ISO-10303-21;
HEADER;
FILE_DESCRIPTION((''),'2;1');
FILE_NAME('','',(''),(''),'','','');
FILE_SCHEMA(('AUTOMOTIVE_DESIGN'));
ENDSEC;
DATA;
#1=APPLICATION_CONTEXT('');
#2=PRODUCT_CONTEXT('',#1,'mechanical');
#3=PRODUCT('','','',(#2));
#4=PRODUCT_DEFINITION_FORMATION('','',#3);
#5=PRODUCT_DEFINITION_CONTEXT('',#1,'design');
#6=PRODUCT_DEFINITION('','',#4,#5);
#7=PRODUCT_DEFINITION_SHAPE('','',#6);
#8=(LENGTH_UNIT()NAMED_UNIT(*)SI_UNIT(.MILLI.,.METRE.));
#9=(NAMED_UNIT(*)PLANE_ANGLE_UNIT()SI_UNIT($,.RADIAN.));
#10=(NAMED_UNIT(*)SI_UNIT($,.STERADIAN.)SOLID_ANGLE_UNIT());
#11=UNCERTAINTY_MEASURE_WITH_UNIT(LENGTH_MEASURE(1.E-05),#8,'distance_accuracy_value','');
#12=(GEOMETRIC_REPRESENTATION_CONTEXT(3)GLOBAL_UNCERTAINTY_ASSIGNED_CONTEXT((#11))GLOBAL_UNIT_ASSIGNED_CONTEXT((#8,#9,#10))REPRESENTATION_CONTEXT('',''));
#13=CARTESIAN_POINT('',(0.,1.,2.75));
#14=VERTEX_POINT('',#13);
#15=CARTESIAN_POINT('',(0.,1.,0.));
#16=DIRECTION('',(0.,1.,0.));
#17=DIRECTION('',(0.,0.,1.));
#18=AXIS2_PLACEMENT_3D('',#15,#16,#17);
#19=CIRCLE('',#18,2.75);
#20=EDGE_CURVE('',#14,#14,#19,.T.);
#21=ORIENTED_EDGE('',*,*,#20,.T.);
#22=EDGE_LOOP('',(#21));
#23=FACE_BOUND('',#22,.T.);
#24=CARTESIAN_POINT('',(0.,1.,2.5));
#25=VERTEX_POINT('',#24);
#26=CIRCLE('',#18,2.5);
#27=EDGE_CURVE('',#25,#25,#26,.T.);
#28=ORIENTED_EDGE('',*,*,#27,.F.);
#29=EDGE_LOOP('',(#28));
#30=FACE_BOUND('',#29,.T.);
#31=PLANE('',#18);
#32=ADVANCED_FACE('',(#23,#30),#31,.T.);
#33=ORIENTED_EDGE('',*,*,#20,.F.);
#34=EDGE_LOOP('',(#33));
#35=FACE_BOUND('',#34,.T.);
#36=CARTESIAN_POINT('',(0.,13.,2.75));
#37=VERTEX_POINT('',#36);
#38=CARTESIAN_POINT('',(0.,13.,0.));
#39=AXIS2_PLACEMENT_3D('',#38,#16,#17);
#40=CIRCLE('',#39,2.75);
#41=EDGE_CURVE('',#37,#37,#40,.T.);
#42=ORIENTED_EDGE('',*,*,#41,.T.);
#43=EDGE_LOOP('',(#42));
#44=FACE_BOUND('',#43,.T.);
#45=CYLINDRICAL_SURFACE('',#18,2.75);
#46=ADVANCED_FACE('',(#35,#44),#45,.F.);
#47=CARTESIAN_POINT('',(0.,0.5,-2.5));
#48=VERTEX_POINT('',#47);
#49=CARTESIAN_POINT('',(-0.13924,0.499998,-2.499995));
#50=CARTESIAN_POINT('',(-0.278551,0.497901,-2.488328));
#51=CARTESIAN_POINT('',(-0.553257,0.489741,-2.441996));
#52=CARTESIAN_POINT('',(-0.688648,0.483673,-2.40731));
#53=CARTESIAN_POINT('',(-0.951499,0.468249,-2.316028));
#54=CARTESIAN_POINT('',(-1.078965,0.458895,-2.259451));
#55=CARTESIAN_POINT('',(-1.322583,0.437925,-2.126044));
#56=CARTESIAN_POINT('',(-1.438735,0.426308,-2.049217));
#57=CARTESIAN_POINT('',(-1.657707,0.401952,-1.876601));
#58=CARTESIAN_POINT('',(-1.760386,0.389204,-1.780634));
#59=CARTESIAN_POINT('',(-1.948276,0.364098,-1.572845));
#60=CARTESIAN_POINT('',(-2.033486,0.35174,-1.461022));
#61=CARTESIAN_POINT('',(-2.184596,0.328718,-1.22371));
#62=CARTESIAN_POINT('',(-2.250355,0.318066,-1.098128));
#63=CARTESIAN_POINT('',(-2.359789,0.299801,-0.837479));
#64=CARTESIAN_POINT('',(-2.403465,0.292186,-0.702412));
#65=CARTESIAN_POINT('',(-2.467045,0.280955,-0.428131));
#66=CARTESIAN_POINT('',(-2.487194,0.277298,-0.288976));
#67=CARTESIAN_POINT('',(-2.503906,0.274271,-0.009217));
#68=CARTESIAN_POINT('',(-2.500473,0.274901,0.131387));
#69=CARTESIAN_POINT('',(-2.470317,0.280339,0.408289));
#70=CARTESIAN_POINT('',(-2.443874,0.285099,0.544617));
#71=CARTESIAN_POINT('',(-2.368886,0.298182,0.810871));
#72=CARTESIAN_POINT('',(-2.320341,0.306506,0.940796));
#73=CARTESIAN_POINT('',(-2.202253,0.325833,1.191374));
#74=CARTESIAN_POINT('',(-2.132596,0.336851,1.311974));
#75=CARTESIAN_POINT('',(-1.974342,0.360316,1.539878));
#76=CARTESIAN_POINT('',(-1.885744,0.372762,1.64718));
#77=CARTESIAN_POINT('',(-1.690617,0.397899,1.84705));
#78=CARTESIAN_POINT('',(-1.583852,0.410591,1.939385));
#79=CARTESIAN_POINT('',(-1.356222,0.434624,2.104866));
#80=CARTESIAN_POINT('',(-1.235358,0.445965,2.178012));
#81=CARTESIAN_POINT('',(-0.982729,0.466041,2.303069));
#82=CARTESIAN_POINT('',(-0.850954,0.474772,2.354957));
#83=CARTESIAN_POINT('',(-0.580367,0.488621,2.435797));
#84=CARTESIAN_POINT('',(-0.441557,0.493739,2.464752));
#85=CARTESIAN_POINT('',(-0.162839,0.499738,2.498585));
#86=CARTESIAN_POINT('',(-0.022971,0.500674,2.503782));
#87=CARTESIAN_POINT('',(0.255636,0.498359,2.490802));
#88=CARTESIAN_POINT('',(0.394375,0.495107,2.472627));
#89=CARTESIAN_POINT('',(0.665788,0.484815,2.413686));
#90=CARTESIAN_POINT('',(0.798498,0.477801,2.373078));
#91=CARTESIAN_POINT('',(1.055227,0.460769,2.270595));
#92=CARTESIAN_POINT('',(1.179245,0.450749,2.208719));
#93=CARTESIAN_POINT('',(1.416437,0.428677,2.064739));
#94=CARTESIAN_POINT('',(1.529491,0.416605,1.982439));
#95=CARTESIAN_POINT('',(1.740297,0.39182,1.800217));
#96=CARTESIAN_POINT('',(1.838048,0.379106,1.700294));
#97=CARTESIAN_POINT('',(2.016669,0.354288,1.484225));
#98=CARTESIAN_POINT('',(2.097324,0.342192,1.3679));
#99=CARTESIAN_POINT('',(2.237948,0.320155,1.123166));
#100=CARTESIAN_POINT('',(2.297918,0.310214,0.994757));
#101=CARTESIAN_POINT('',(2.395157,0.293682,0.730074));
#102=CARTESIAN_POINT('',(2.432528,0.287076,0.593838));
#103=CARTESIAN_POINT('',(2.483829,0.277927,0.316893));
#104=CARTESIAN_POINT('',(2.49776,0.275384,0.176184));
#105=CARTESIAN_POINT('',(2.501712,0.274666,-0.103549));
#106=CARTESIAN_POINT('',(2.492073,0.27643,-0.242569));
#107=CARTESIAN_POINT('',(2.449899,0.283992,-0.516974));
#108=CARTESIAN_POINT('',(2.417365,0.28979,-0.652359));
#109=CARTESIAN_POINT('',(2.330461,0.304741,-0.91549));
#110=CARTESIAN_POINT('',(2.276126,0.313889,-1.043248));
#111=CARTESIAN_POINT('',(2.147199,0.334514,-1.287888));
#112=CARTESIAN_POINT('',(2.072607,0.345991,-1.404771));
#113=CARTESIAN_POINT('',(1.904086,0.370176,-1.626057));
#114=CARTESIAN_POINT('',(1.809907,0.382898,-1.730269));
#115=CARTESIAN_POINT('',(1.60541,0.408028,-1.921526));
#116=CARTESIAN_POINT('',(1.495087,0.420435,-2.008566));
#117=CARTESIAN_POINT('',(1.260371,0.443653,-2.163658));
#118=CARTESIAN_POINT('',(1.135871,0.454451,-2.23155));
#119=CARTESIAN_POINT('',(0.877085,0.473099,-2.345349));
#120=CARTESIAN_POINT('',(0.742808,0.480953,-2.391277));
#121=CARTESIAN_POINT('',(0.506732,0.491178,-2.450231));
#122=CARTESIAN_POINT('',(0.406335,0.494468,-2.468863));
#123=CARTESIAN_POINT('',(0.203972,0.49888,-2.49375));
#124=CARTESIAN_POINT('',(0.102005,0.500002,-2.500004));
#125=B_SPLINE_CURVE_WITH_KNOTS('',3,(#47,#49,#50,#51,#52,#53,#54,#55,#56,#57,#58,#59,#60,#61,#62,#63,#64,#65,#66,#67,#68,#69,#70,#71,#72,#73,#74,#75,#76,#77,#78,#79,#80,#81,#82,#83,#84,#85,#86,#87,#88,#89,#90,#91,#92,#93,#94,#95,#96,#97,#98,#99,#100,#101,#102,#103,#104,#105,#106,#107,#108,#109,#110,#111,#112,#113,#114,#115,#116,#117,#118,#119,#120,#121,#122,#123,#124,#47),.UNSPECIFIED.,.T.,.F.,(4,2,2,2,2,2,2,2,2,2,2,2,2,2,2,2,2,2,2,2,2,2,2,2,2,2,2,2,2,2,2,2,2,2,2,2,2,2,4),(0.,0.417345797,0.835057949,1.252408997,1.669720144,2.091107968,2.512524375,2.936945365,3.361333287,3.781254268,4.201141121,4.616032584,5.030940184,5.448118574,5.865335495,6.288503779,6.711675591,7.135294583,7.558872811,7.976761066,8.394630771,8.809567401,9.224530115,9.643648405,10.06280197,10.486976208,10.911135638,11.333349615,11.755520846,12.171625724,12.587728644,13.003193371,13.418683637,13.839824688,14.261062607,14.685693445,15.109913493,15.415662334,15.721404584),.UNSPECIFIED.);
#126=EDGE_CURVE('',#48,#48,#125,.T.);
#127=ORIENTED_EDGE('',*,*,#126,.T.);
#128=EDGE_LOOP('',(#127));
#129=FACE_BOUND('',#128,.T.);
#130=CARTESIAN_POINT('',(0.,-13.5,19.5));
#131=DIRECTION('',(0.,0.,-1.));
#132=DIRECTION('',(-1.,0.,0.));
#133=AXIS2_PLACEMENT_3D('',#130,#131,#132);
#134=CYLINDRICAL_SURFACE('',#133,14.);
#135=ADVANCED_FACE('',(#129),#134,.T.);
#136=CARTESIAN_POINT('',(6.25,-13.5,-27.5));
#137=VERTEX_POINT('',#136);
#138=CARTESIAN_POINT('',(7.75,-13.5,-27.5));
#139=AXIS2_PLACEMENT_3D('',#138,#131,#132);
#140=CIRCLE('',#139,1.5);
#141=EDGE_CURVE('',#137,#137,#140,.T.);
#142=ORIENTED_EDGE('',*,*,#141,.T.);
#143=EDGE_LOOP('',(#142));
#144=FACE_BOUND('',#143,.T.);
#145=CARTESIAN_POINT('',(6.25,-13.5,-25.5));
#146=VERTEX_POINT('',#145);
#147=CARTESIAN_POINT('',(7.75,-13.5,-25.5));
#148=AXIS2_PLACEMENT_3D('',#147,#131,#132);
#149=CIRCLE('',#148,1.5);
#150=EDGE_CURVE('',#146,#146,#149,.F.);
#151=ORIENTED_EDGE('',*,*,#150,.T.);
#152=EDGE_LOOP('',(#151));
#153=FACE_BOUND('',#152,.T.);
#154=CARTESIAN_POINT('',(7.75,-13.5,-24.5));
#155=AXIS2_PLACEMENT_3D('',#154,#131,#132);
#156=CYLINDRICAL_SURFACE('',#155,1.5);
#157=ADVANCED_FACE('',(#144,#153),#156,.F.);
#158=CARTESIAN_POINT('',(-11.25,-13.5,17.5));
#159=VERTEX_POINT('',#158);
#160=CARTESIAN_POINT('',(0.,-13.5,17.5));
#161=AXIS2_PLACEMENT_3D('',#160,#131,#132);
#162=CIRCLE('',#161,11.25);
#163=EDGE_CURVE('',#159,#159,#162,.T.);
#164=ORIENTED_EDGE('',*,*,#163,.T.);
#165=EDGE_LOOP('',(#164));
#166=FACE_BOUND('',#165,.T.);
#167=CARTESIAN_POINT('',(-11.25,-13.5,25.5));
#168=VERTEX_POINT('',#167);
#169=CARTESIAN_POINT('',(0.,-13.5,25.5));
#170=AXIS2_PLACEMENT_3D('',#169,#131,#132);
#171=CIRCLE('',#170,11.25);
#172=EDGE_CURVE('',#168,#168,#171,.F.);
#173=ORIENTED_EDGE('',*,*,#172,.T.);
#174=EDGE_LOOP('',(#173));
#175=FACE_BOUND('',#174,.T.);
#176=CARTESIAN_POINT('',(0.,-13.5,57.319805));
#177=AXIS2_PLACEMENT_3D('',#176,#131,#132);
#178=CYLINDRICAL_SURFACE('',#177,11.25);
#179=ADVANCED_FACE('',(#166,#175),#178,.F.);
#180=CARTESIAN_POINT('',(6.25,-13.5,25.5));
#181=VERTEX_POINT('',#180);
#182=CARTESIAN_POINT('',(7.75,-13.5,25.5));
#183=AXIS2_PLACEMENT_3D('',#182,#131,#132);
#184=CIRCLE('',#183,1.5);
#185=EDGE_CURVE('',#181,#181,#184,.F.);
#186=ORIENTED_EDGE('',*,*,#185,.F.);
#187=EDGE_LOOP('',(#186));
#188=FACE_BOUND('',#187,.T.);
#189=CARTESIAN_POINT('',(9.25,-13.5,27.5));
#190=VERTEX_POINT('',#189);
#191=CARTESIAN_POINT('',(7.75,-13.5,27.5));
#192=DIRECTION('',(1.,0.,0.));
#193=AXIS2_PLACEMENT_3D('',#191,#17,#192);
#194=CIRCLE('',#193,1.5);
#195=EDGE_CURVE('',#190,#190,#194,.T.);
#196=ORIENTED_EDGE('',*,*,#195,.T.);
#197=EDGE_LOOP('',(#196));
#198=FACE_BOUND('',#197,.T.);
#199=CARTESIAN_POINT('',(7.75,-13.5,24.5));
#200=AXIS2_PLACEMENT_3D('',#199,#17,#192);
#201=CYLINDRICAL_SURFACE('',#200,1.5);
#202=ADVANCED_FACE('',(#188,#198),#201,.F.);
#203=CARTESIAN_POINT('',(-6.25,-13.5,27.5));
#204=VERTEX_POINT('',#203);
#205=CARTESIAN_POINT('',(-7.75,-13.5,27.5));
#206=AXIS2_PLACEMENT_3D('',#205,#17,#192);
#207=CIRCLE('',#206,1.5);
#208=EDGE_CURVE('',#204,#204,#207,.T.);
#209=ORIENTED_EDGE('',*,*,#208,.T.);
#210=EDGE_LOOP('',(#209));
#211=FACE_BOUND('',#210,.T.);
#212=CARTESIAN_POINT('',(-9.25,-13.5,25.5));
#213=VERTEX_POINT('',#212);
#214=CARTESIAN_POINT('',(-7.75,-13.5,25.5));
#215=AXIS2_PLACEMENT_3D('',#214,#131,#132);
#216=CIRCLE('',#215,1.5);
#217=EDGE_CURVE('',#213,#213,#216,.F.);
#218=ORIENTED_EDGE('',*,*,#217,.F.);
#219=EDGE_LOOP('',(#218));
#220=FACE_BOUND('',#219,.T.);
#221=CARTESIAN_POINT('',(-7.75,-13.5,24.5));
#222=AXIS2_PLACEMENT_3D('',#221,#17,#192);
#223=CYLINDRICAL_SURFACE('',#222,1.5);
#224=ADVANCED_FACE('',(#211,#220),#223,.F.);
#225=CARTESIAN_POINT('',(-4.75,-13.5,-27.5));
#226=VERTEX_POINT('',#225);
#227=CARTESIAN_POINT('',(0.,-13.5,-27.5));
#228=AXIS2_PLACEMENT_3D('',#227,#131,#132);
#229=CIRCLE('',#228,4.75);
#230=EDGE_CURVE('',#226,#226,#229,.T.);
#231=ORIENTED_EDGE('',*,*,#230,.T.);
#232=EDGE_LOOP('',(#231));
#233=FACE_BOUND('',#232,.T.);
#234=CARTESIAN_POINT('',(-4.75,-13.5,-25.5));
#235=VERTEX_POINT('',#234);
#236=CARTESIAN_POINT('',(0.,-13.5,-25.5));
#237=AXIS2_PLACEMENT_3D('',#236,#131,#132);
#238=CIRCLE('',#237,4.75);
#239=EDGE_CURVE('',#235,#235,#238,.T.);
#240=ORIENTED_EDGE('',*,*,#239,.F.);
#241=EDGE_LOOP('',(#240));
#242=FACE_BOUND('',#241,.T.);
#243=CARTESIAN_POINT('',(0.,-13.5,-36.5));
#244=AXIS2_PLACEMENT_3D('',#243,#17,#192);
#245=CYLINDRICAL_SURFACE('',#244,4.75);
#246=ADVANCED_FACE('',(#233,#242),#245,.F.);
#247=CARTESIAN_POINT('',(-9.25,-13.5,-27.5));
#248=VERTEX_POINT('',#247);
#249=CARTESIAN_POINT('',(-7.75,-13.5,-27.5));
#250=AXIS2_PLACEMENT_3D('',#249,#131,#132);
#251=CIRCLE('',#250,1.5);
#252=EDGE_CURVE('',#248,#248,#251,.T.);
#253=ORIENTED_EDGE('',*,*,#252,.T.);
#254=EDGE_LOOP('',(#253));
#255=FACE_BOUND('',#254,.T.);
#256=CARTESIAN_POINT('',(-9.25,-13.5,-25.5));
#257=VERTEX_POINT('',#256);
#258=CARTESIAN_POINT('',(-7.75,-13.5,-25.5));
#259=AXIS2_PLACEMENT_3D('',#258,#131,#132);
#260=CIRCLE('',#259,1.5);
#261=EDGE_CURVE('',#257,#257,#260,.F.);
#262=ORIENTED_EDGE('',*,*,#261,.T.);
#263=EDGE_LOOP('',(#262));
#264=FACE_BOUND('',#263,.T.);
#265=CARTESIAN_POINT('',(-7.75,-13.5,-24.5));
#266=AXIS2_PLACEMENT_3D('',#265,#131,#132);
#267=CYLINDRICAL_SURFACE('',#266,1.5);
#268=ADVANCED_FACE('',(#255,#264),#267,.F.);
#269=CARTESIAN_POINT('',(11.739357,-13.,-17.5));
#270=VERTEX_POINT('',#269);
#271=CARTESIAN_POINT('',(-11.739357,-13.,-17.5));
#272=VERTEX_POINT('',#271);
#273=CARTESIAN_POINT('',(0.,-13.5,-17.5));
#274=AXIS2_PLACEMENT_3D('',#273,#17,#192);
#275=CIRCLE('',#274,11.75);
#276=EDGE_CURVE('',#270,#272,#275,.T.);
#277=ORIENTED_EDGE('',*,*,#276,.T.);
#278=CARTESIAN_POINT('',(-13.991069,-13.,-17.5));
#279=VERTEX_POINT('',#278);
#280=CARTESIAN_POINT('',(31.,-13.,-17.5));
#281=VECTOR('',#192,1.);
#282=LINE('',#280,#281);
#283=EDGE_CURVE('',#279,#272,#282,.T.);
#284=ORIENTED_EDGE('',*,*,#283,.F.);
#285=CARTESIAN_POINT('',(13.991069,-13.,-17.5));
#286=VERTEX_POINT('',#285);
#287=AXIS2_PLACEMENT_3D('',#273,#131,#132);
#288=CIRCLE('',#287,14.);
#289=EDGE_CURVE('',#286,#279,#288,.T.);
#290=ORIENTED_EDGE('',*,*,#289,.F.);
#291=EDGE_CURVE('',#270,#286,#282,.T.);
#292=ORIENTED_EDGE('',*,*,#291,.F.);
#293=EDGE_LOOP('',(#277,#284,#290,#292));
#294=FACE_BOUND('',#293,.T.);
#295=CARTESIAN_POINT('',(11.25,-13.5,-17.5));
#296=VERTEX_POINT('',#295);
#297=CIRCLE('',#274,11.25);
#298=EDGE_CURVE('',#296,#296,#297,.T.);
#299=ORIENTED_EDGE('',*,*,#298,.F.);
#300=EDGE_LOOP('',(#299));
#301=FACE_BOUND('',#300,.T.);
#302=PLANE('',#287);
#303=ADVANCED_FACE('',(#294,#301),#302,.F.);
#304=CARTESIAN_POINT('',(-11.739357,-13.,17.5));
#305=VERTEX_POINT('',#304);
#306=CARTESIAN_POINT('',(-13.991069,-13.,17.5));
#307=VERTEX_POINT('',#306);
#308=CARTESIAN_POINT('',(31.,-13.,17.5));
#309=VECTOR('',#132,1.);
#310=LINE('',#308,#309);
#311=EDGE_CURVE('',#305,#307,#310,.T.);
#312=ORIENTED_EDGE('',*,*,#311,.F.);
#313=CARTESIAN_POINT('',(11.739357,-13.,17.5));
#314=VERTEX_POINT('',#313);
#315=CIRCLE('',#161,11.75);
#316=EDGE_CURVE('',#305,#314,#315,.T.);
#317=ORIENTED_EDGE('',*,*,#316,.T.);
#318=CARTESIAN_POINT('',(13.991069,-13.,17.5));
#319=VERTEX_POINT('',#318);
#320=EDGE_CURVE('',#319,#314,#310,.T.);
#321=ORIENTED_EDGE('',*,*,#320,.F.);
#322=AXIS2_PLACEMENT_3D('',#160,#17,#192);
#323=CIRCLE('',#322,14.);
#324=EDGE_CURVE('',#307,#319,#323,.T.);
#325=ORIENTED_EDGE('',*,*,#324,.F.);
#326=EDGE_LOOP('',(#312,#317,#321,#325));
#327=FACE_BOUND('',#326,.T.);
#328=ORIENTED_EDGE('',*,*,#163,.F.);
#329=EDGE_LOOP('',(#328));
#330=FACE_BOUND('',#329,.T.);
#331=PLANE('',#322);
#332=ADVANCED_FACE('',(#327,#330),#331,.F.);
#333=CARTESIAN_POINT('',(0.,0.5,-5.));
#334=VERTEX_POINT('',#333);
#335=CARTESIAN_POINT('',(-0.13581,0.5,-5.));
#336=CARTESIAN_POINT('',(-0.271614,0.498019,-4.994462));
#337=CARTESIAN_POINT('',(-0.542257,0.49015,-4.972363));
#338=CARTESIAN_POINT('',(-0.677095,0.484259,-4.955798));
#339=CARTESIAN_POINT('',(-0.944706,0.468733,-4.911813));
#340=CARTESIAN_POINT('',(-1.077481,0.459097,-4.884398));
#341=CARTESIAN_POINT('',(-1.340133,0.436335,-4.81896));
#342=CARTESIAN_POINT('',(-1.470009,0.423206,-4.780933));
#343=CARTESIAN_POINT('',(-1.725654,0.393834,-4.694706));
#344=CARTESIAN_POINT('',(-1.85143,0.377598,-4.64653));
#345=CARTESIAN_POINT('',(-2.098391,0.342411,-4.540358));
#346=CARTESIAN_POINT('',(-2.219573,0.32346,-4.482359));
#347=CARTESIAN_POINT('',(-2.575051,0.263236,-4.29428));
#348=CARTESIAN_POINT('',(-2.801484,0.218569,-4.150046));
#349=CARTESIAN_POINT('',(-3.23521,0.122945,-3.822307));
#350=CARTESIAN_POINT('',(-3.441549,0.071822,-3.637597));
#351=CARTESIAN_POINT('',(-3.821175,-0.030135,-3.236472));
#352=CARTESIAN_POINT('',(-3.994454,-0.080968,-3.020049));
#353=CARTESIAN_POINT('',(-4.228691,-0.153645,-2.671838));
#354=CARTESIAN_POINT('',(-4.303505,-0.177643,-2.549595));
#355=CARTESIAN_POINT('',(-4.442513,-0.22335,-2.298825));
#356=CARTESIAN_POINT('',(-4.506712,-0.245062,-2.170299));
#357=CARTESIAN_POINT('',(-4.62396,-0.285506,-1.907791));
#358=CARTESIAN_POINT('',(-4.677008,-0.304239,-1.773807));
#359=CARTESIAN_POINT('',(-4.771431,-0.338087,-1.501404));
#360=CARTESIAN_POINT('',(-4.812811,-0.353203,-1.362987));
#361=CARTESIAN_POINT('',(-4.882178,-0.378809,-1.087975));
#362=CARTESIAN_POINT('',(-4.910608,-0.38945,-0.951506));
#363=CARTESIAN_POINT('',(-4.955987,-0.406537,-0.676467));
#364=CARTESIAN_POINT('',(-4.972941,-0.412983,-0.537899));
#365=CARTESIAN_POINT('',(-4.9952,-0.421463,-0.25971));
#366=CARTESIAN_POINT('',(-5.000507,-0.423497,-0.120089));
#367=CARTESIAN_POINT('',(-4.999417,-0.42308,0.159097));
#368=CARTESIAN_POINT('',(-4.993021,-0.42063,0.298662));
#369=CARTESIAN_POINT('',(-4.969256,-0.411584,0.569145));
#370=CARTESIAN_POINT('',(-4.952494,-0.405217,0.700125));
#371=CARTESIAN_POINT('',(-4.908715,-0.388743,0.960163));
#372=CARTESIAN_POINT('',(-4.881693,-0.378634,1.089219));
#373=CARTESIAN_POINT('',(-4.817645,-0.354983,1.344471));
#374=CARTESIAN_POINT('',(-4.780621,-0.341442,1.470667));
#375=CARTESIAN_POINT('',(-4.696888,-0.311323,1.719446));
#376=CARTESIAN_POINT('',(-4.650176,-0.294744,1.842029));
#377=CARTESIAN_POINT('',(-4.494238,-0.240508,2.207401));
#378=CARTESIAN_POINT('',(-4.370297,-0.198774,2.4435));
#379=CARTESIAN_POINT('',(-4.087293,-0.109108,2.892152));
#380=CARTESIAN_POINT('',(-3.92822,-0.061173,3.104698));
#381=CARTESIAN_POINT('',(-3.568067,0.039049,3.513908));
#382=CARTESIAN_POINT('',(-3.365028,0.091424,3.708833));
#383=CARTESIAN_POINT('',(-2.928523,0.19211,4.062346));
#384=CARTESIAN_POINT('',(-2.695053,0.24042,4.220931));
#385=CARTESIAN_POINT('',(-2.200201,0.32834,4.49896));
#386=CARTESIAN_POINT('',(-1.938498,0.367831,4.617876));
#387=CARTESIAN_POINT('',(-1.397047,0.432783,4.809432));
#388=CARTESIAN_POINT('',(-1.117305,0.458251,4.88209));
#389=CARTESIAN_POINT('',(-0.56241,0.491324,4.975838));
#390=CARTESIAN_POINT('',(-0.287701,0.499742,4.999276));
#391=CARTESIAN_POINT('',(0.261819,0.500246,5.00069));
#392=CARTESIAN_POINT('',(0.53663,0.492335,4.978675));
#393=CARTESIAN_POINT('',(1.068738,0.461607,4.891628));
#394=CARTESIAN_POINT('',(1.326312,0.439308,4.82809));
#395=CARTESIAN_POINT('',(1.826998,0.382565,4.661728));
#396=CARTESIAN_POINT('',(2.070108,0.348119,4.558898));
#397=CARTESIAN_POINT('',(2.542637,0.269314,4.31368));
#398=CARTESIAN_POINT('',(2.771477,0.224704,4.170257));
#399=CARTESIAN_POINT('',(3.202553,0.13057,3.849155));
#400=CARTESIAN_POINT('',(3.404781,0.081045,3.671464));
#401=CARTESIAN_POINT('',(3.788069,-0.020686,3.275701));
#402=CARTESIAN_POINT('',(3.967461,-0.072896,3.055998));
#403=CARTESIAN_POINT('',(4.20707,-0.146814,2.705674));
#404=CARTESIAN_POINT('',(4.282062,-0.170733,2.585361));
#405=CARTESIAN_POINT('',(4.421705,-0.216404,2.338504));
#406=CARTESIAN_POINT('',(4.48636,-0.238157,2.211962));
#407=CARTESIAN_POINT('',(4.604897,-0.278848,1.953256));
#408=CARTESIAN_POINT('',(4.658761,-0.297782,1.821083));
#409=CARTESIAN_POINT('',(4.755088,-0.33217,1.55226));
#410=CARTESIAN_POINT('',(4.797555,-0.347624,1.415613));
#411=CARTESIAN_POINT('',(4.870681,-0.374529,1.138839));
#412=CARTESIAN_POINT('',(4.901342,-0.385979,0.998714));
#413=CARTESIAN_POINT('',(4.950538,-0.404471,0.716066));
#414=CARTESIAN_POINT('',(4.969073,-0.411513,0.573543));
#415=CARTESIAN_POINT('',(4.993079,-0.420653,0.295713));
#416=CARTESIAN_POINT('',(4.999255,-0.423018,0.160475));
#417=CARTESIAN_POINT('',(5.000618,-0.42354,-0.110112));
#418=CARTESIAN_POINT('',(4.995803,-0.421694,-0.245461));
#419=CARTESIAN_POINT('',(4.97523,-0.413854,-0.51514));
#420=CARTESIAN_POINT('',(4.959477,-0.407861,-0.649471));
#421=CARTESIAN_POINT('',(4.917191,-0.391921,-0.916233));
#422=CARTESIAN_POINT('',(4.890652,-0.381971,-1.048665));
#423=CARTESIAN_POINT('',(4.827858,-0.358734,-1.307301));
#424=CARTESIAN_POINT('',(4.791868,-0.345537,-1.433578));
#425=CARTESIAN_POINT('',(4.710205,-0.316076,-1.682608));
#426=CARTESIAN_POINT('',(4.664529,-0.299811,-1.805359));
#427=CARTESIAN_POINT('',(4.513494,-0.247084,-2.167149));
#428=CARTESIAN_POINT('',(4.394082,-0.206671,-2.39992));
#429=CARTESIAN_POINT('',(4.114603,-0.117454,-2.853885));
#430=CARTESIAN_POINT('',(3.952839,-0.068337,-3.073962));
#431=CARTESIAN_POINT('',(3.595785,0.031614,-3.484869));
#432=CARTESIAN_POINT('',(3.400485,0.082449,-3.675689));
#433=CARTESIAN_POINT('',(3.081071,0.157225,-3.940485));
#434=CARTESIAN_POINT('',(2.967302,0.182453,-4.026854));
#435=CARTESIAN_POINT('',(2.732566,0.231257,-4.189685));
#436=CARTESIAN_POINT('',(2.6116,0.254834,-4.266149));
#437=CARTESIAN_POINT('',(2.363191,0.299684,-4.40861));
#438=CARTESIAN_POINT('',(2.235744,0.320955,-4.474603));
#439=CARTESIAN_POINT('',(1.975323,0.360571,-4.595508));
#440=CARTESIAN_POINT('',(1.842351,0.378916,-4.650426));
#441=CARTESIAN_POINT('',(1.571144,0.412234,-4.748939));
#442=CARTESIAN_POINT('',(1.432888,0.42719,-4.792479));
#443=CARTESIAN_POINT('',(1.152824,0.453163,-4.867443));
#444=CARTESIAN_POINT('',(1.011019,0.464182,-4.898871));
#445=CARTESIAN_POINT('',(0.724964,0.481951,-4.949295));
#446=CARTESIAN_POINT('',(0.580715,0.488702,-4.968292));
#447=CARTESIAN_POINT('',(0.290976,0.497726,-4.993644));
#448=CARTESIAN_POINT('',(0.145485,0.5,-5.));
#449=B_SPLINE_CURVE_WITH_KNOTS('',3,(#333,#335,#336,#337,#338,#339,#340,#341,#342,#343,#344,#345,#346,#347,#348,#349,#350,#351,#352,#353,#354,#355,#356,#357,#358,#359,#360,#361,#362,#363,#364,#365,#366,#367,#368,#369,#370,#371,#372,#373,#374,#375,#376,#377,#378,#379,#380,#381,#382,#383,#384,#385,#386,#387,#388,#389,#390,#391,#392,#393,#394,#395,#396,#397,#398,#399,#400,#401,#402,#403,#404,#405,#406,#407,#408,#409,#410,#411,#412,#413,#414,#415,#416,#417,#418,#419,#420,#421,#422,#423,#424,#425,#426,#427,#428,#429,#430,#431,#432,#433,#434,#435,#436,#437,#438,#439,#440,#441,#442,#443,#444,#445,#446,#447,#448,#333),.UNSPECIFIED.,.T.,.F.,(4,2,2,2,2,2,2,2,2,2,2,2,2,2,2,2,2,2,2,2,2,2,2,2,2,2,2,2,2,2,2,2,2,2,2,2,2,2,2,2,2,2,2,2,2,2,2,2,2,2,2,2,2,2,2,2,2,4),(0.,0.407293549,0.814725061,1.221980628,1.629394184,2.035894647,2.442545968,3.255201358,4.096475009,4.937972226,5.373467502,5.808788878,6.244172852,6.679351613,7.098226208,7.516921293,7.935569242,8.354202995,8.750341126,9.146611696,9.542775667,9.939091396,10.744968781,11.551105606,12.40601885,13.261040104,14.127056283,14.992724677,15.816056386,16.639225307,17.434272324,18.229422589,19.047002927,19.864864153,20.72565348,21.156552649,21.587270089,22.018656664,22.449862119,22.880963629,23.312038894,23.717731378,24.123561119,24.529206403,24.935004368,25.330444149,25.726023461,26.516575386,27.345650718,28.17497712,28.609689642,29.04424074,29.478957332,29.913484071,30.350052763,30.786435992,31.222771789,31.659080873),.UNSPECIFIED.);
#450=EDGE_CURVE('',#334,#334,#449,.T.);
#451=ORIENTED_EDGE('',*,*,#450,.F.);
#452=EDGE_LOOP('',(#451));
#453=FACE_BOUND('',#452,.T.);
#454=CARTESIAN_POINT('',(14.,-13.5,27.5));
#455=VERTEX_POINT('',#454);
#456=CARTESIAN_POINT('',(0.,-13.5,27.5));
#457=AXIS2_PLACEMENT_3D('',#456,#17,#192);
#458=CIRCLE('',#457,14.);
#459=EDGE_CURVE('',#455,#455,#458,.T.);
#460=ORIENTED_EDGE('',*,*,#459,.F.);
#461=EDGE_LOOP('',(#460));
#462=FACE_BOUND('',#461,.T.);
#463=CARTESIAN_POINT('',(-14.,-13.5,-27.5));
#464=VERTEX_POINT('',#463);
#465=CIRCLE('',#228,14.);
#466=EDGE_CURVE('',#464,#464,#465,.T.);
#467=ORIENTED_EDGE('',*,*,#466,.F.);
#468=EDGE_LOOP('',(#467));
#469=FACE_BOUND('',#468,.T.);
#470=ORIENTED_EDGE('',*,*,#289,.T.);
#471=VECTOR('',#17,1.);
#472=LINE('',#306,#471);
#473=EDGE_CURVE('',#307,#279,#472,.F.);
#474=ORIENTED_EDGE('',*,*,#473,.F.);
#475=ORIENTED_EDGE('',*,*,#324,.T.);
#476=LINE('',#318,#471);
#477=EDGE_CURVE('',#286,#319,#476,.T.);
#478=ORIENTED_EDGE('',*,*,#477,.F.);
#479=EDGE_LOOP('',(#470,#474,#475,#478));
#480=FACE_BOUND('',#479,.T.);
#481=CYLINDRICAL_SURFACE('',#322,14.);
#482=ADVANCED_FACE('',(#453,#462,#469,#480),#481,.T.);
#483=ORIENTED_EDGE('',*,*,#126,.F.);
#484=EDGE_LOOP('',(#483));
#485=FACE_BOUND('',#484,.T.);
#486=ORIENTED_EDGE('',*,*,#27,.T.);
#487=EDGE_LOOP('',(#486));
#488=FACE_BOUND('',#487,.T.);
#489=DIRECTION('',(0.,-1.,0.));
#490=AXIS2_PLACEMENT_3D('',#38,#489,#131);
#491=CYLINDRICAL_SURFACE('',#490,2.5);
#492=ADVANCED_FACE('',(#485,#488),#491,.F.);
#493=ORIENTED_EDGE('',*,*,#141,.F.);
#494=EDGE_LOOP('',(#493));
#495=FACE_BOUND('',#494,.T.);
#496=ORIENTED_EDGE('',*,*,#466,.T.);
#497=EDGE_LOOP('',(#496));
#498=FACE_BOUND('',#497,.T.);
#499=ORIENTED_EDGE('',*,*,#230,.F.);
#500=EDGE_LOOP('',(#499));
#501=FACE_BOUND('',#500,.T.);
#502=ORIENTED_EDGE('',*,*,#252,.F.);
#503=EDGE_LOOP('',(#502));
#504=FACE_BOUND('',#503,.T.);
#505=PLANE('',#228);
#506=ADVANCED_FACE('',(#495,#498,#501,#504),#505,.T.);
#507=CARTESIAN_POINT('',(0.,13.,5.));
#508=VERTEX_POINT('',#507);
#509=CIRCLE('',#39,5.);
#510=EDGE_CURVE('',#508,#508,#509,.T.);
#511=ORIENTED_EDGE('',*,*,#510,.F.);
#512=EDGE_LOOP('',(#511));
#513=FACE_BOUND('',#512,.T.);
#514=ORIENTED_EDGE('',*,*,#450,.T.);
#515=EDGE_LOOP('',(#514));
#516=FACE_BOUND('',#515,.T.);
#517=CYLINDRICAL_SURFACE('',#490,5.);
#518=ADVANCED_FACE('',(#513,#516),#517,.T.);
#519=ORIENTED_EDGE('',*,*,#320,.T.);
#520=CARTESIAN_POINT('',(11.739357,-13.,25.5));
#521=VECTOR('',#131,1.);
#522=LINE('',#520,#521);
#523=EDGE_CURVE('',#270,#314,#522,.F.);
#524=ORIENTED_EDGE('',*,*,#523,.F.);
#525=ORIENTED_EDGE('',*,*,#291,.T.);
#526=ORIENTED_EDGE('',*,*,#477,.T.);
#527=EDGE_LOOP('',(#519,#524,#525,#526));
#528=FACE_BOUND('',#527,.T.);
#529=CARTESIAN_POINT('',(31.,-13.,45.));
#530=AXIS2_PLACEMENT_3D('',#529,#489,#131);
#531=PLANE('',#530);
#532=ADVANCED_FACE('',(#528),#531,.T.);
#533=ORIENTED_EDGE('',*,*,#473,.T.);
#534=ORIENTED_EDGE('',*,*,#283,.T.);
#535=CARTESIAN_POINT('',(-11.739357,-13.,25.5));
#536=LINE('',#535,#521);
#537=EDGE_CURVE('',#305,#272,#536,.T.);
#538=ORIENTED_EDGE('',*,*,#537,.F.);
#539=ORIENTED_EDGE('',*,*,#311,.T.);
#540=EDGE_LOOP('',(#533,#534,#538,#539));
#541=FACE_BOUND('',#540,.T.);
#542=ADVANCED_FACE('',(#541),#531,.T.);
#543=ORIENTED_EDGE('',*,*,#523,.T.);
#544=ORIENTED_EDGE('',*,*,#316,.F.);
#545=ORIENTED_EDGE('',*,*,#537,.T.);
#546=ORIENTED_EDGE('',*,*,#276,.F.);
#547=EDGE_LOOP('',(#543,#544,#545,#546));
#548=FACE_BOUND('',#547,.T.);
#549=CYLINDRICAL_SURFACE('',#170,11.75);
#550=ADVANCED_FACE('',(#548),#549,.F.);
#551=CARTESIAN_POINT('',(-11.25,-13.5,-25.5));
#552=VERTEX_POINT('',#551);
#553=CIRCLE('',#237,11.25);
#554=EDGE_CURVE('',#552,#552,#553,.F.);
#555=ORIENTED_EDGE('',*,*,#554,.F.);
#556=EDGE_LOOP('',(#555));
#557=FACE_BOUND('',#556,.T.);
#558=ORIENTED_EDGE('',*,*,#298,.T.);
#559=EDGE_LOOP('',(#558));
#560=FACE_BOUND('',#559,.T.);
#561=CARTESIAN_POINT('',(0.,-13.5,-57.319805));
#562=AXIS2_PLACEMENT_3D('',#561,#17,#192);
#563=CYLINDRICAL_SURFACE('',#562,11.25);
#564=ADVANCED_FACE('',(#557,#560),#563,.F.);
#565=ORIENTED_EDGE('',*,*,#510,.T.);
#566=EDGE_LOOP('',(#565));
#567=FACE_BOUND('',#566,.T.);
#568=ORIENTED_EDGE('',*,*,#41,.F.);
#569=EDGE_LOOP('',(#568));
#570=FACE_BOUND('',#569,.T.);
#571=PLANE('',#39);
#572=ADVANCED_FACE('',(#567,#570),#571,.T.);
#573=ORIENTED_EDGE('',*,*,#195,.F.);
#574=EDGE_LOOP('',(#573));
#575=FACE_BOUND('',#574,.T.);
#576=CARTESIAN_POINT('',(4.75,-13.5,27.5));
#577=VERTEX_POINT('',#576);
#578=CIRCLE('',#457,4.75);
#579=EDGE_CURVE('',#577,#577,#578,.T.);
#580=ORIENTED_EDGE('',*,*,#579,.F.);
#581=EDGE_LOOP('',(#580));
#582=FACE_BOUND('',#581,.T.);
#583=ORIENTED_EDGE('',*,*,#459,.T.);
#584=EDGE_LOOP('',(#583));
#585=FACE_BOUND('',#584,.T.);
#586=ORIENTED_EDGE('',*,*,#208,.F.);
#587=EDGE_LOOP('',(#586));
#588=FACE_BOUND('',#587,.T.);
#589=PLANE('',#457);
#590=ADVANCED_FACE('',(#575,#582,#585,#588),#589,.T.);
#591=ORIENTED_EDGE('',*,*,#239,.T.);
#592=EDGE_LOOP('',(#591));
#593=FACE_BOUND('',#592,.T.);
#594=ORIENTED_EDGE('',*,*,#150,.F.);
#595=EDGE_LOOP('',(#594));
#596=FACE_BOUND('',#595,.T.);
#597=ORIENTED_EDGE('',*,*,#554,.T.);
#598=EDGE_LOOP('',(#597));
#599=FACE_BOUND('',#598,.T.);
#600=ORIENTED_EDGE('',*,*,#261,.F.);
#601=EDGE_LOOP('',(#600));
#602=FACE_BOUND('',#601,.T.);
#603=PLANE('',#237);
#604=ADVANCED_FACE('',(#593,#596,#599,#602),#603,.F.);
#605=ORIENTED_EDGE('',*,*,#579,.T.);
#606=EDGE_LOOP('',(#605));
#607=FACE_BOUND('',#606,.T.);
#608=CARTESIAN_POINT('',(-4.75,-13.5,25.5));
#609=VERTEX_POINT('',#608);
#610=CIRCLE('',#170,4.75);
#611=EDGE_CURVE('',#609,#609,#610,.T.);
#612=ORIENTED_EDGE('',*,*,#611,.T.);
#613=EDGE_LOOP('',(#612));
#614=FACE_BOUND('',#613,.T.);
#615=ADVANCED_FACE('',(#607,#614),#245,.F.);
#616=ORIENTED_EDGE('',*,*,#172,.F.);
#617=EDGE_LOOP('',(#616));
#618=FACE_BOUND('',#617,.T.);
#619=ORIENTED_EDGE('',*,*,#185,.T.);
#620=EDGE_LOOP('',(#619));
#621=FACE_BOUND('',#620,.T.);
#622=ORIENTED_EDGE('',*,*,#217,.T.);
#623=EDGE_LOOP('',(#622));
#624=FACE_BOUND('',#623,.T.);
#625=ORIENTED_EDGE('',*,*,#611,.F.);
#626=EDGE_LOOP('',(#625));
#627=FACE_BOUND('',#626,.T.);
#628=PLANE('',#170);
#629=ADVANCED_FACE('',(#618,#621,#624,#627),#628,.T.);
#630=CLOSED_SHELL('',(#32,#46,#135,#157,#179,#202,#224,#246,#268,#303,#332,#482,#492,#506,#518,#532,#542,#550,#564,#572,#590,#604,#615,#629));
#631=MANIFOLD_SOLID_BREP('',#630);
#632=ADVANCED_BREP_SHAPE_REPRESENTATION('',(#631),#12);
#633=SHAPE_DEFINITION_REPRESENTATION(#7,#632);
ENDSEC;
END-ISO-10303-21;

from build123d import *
from build123d.topology import SkipClean

# Parameters (mm, degrees)
CROQUIS7_R                    = 5
CROQUIS7_R_2                  = 2.5
SALIENTE_EXTRUIR7_DEPTH       = 13
SALIENTE_EXTRUIR8_DEPTH       = 20
SALIENTE_EXTRUIR8_DEPTH_BACK  = 20
CROQUIS8_R                    = 6.5
CROQUIS8_R_2                  = 4
SALIENTE_EXTRUIR10_START      = -16
CROQUIS9_R                    = 5
CROQUIS9_R_2                  = 2.5
SALIENTE_EXTRUIR10_DEPTH      = 16
CROQUIS10_R                   = 4
CORTAR_EXTRUIR1_DEPTH         = 43
CROQUIS11_W                   = 2
CROQUIS11_H                   = 5.07
CORTAR_EXTRUIR2_DEPTH         = 43
CROQUIS12_W                   = 2.5
CROQUIS12_H                   = 8.55
SALIENTE_EXTRUIR11_DEPTH      = 40
CROQUIS13_W                   = 2.5
CROQUIS13_H                   = 8.55
SALIENTE_EXTRUIR12_DEPTH      = 40
CROQUIS14_R                   = 1.5
CORTAR_EXTRUIR3_DEPTH         = 40
CROQUIS15_W                   = 25.103350224
CROQUIS15_H                   = 20.011454976
CORTAR_EXTRUIR4_DEPTH         = 40
SALIENTE_EXTRUIR14_DEPTH      = 55
SALIENTE_EXTRUIR14_DEPTH_BACK = 55
CROQUIS16_R                   = 13.5
CROQUIS16_R_2                 = 11
SALIENTE_EXTRUIR15_START      = -15
CROQUIS17_R                   = 5
CROQUIS17_R_2                 = 2.5
SALIENTE_EXTRUIR15_DEPTH      = 15
CROQUIS18_R                   = 11
CROQUIS18_R_2                 = 4.25
SALIENTE_EXTRUIR16_DEPTH      = 3
CROQUIS20_R                   = 1.5
CORTAR_EXTRUIR5_DEPTH         = 3
SALIENTE_EXTRUIR17_START      = -3
CROQUIS21_R                   = 11
CROQUIS21_R_2                 = 4.25
CROQUIS21_R_3                 = 1.5
CROQUIS21_R_4                 = 1.386293428
SALIENTE_EXTRUIR17_DEPTH      = 3
CORTAR_EXTRUIR6_DEPTH         = 31
CORTAR_EXTRUIR6_DEPTH_BACK    = 18
CROQUIS22_W                   = 90
CROQUIS22_H                   = 14
CROQUIS24_R                   = 13.5
CORTAR_EXTRUIR7_DEPTH         = 27.5
CROQUIS27_R                   = 13.5
CROQUIS27_R_2                 = 11
SALIENTE_EXTRUIR19_DEPTH      = 10
CROQUIS28_R                   = 11
CROQUIS28_R_2                 = 1.5
CROQUIS28_R_3                 = 4.25
SALIENTE_EXTRUIR20_DEPTH      = 3
CORTAR_EXTRUIR8_START         = -27.5
CROQUIS29_R                   = 13.5
CORTAR_EXTRUIR8_DEPTH         = 27.5
SALIENTE_EXTRUIR21_START      = -10
CROQUIS30_R                   = 13.5
CROQUIS30_R_2                 = 11
SALIENTE_EXTRUIR21_DEPTH      = 10
SALIENTE_EXTRUIR22_START      = -3
CROQUIS31_R                   = 11
CROQUIS31_R_2                 = 4.25
CROQUIS31_R_3                 = 1.5
SALIENTE_EXTRUIR22_DEPTH      = 3
CROQUIS32_R                   = 14
CROQUIS32_R_2                 = 13.5
SALIENTE_EXTRUIR25_DEPTH      = 10
SALIENTE_EXTRUIR26_START      = -10
CROQUIS35_R                   = 14
CROQUIS35_R_2                 = 13.5
SALIENTE_EXTRUIR26_DEPTH      = 10
SALIENTE_EXTRUIR27_START      = -47
SALIENTE_EXTRUIR27_DEPTH      = 47
CORTAR_EXTRUIR9_DEPTH         = 43
CORTAR_EXTRUIR9_DEPTH_BACK    = 8
CROQUIS37_R                   = 11.75
CORTAR_EXTRUIR10_START        = -12
CROQUIS38_R                   = 2.75
CROQUIS38_R_2                 = 2.5
CORTAR_EXTRUIR10_DEPTH        = 12
CROQUIS39_R                   = 4.75
CORTAR_EXTRUIR11_DEPTH        = 64
CROQUIS41_R                   = 11.75
CROQUIS41_R_2                 = 11.125
SALIENTE_EXTRUIR28_DEPTH      = 10
SALIENTE_EXTRUIR29_START      = -10
CROQUIS42_R                   = 11.75
CROQUIS42_R_2                 = 11.125
SALIENTE_EXTRUIR29_DEPTH      = 10
SALIENTE_EXTRUIR30_START      = -10
CROQUIS43_R                   = 11.125
CROQUIS43_R_2                 = 11
SALIENTE_EXTRUIR30_DEPTH      = 10
CROQUIS45_R                   = 11.125
CROQUIS45_R_2                 = 11
SALIENTE_EXTRUIR31_DEPTH      = 10
CROQUIS46_W                   = 9.066588381
CROQUIS46_H                   = 35
CROQUIS46_W_2                 = 4.04
CORTAR_EXTRUIR12_DEPTH        = 11
CROQUIS47_R                   = 11.25
CORTAR_EXTRUIR13_DEPTH        = 8
CORTAR_EXTRUIR14_START        = -8
CROQUIS48_R                   = 11.25
CORTAR_EXTRUIR14_DEPTH        = 8


with BuildPart() as part:
    # Croquis7 → Saliente-Extruir7 (new body)
    with BuildSketch(Plane(origin=(0, 0, 0), x_dir=(1, 0, 0), z_dir=(0, 1, 0))):
        with Locations(Location((0, 0, 0), (0, 0, 90))):
            Circle(CROQUIS7_R)
        with Locations(Location((0, 0, 0), (0, 0, 90))):
            Circle(CROQUIS7_R_2, mode=Mode.SUBTRACT)
    extrude(amount=SALIENTE_EXTRUIR7_DEPTH)



with BuildPart() as body_2:
    # Croquis8 → Saliente-Extruir8 (new, two sides: drawn at the far end of the back side and taken through both)
    with BuildSketch(Plane.XY.offset(-SALIENTE_EXTRUIR8_DEPTH_BACK)):
        with Locations((0, -6.5)):
            Circle(CROQUIS8_R)
        with Locations((0, -6.5)):
            Circle(CROQUIS8_R_2, mode=Mode.SUBTRACT)
    extrude(amount=SALIENTE_EXTRUIR8_DEPTH + SALIENTE_EXTRUIR8_DEPTH_BACK)


with BuildPart() as part_1:
    add(part.part)

    add(body_2.part)  # Saliente-Extruir10 merges body 2
    # Croquis9 → Saliente-Extruir10 (add)
    with BuildSketch(Plane(origin=(0, 13, 0), x_dir=(1, 0, 0), z_dir=(0, 1, 0)).offset(SALIENTE_EXTRUIR10_START)):
        with Locations(Location((0, 0, 0), (0, 0, 90))):
            Circle(CROQUIS9_R)
        with Locations(Location((0, 0, 0), (0, 0, 90))):
            Circle(CROQUIS9_R_2, mode=Mode.SUBTRACT)
    extrude(amount=SALIENTE_EXTRUIR10_DEPTH)

    # Croquis10 → Cortar-Extruir1 (cut)
    with BuildSketch(Plane.XY.offset(20)):
        with Locations((0, -6.5)):
            Circle(CROQUIS10_R)
    extrude(amount=-CORTAR_EXTRUIR1_DEPTH, mode=Mode.SUBTRACT)

    # Croquis11 → Cortar-Extruir2 (cut)
    with BuildSketch(Plane.XY.offset(20)):
        with Locations((0, -11.747658627)):
            Rectangle(CROQUIS11_W, CROQUIS11_H)
    extrude(amount=-CORTAR_EXTRUIR2_DEPTH, mode=Mode.SUBTRACT)

    # Croquis12 → Saliente-Extruir11 (add)
    with BuildSketch(Plane(origin=(0, 0, -20), x_dir=(-1, 0, 0), z_dir=(0, 0, -1))):
        with Locations((-2.25, -14.647983346)):
            Rectangle(CROQUIS12_W, CROQUIS12_H)
    extrude(amount=-SALIENTE_EXTRUIR11_DEPTH)

    # Croquis13 → Saliente-Extruir12 (add)
    with BuildSketch(Plane(origin=(0, 0, -20), x_dir=(-1, 0, 0), z_dir=(0, 0, -1))):
        with Locations((2.25, -14.647983346)):
            Rectangle(CROQUIS13_W, CROQUIS13_H)
    extrude(amount=-SALIENTE_EXTRUIR12_DEPTH)

    # Croquis14 → Cortar-Extruir3 (cut)
    with BuildSketch(Plane.ZY.offset(3.5)):
        with Locations((-13, -15.450104461)):
            Circle(CROQUIS14_R)
        with Locations((0, -15.450104461)):
            Circle(CROQUIS14_R)
        with Locations((13, -15.450104461)):
            Circle(CROQUIS14_R)
    extrude(amount=-CORTAR_EXTRUIR3_DEPTH, mode=Mode.SUBTRACT)

    # Croquis15 → Cortar-Extruir4 (cut)
    with BuildSketch(Plane.XY.offset(20)):
        with Locations((-2.902121413, -10.005727488)):
            Rectangle(CROQUIS15_W, CROQUIS15_H)
    extrude(amount=-CORTAR_EXTRUIR4_DEPTH, mode=Mode.SUBTRACT)



with BuildPart() as body_2_2:
    # Croquis16 → Saliente-Extruir14 (new, two sides: drawn at the far end of the back side and taken through both)
    with BuildSketch(Plane.XY.offset(-SALIENTE_EXTRUIR14_DEPTH_BACK)):
        with Locations((0, -13.5)):
            Circle(CROQUIS16_R)
        with Locations((0, -13.5)):
            Circle(CROQUIS16_R_2, mode=Mode.SUBTRACT)
    extrude(amount=SALIENTE_EXTRUIR14_DEPTH + SALIENTE_EXTRUIR14_DEPTH_BACK)


with BuildPart() as part_2:
    add(part_1.part)

    add(body_2_2.part)  # Saliente-Extruir15 merges body 2 2
    # Croquis17 → Saliente-Extruir15 (add)
    with BuildSketch(Plane(origin=(0, 13, 0), x_dir=(1, 0, 0), z_dir=(0, 1, 0)).offset(SALIENTE_EXTRUIR15_START)):
        with Locations(Location((0, 0, 0), (0, 0, 90))):
            Circle(CROQUIS17_R)
        with Locations(Location((0, 0, 0), (0, 0, 90))):
            Circle(CROQUIS17_R_2, mode=Mode.SUBTRACT)
    extrude(amount=SALIENTE_EXTRUIR15_DEPTH)

    # Croquis18 → Saliente-Extruir16 (add)
    with BuildSketch(Plane(origin=(0, 0, -55), x_dir=(-1, 0, 0), z_dir=(0, 0, -1))):
        with Locations((0, -13.5)):
            Circle(CROQUIS18_R)
        with Locations((0, -13.5)):
            Circle(CROQUIS18_R_2, mode=Mode.SUBTRACT)
    extrude(amount=-SALIENTE_EXTRUIR16_DEPTH)

    # Croquis20 → Cortar-Extruir5 (cut)
    with BuildSketch(Plane(origin=(0, 0, -55), x_dir=(-1, 0, 0), z_dir=(0, 0, -1))):
        with Locations((-7.75, -13.5)):
            Circle(CROQUIS20_R)
        with Locations((7.75, -13.5)):
            Circle(CROQUIS20_R)
    extrude(amount=-CORTAR_EXTRUIR5_DEPTH, mode=Mode.SUBTRACT)

    # Croquis21 → Saliente-Extruir17 (add)
    with BuildSketch(Plane.XY.offset(55).offset(SALIENTE_EXTRUIR17_START)):
        with Locations(Location((0, -13.5, 0), (0, 0, 180))):
            Circle(CROQUIS21_R)
        with Locations(Location((0, -13.5, 0), (0, 0, 180))):
            Circle(CROQUIS21_R_2, mode=Mode.SUBTRACT)
        with Locations(Location((7.75, -13.5, 0), (0, 0, 180))):
            Circle(CROQUIS21_R_3, mode=Mode.SUBTRACT)
        with Locations((-7.75, -13.5)):
            Circle(CROQUIS21_R_4, mode=Mode.SUBTRACT)
    extrude(amount=SALIENTE_EXTRUIR17_DEPTH)

    # Croquis22 → Cortar-Extruir6 (cut, two sides: drawn at the far end of the back side and taken through both)
    with BuildSketch(Plane(origin=(0, 0, 0), x_dir=(0, 0, -1), z_dir=(1, 0, 0)).offset(-CORTAR_EXTRUIR6_DEPTH_BACK)):
        with Locations((0, -20)):
            Rectangle(CROQUIS22_W, CROQUIS22_H)
    extrude(amount=CORTAR_EXTRUIR6_DEPTH + CORTAR_EXTRUIR6_DEPTH_BACK, mode=Mode.SUBTRACT)

    # Croquis24 → Cortar-Extruir7 (cut)
    with BuildSketch(Plane.XY.offset(55)):
        with Locations(Location((0, -13.5, 0), (0, 0, 177.877448638))):
            Circle(CROQUIS24_R)
    extrude(amount=-CORTAR_EXTRUIR7_DEPTH, mode=Mode.SUBTRACT)

    # Croquis27 → Saliente-Extruir19 (add)
    with BuildSketch(Plane.XY.offset(27.5)):
        with Locations((0, -13.5)):
            Circle(CROQUIS27_R)
        with Locations(Location((0, -13.5, 0), (0, 0, 180))):
            Circle(CROQUIS27_R_2, mode=Mode.SUBTRACT)
    extrude(amount=-SALIENTE_EXTRUIR19_DEPTH)

    # Croquis28 → Saliente-Extruir20 (add)
    with BuildSketch(Plane.XY.offset(27.5)):
        with Locations(Location((0, -13.5, 0), (0, 0, 180))):
            Circle(CROQUIS28_R)
        with Locations(Location((-7.75, -13.5, 0), (0, 0, 180))):
            Circle(CROQUIS28_R_2, mode=Mode.SUBTRACT)
        with Locations(Location((7.75, -13.5, 0), (0, 0, 180))):
            Circle(CROQUIS28_R_2, mode=Mode.SUBTRACT)
        with Locations(Location((0, -13.5, 0), (0, 0, 180))):
            Circle(CROQUIS28_R_3, mode=Mode.SUBTRACT)
    extrude(amount=-SALIENTE_EXTRUIR20_DEPTH)

    # Croquis29 → Cortar-Extruir8 (cut)
    with BuildSketch(Plane(origin=(0, 0, -55), x_dir=(-1, 0, 0), z_dir=(0, 0, -1)).offset(CORTAR_EXTRUIR8_START)):
        with Locations(Location((0, -13.5, 0), (0, 0, 2.122551362))):
            Circle(CROQUIS29_R)
    extrude(amount=CORTAR_EXTRUIR8_DEPTH, mode=Mode.SUBTRACT)

    # Croquis30 → Saliente-Extruir21 (add)
    with BuildSketch(Plane(origin=(0, 0, -27.5), x_dir=(-1, 0, 0), z_dir=(0, 0, -1)).offset(SALIENTE_EXTRUIR21_START)):
        with Locations((0, -13.5)):
            Circle(CROQUIS30_R)
        with Locations((0, -13.5)):
            Circle(CROQUIS30_R_2, mode=Mode.SUBTRACT)
    extrude(amount=SALIENTE_EXTRUIR21_DEPTH)

    # Croquis31 → Saliente-Extruir22 (add)
    with BuildSketch(Plane(origin=(0, 0, -27.5), x_dir=(-1, 0, 0), z_dir=(0, 0, -1)).offset(SALIENTE_EXTRUIR22_START)):
        with Locations((0, -13.5)):
            Circle(CROQUIS31_R)
        with Locations(Location((0, -13.5, 0), (0, 0, 180))):
            Circle(CROQUIS31_R_2, mode=Mode.SUBTRACT)
        with Locations(Location((7.75, -13.5, 0), (0, 0, 180))):
            Circle(CROQUIS31_R_3, mode=Mode.SUBTRACT)
        with Locations(Location((-7.75, -13.5, 0), (0, 0, 180))):
            Circle(CROQUIS31_R_3, mode=Mode.SUBTRACT)
    extrude(amount=SALIENTE_EXTRUIR22_DEPTH)

    # Croquis32 → Saliente-Extruir25 (add)
    with BuildSketch(Plane.XY.offset(27.5)):
        with Locations((0, -13.5)):
            Circle(CROQUIS32_R)
        with Locations(Location((0, -13.5, 0), (0, 0, 180))):
            Circle(CROQUIS32_R_2, mode=Mode.SUBTRACT)
    extrude(amount=-SALIENTE_EXTRUIR25_DEPTH)

    # Croquis35 → Saliente-Extruir26 (add)
    with BuildSketch(Plane(origin=(0, 0, -27.5), x_dir=(-1, 0, 0), z_dir=(0, 0, -1)).offset(SALIENTE_EXTRUIR26_START)):
        with Locations(Location((0, -13.5, 0), (0, 0, 180))):
            Circle(CROQUIS35_R)
        with Locations((0, -13.5)):
            Circle(CROQUIS35_R_2, mode=Mode.SUBTRACT)
    extrude(amount=SALIENTE_EXTRUIR26_DEPTH)

    # Croquis36 → Saliente-Extruir27 (add)
    with BuildSketch(Plane(origin=(0, 0, -27.5), x_dir=(-1, 0, 0), z_dir=(0, 0, -1)).offset(SALIENTE_EXTRUIR27_START)):
        with BuildLine():
            Line((-14, -13.5), (-13.5, -13.5))
            ThreePointArc((-13.5, -13.5), (0, 0), (13.5, -13.5))
            Line((13.5, -13.5), (14, -13.5))
            ThreePointArc((14, -13.5), (0, 0.5), (-14, -13.5))
        make_face()
    extrude(amount=SALIENTE_EXTRUIR27_DEPTH)

    # Croquis37 → Cortar-Extruir9 (cut, two sides: drawn at the far end of the back side and taken through both)
    with BuildSketch(Plane(origin=(0, 0, 17.5), x_dir=(-1, 0, 0), z_dir=(0, 0, -1)).offset(-CORTAR_EXTRUIR9_DEPTH_BACK)):
        with Locations((0, -13.5)):
            Circle(CROQUIS37_R)
    extrude(amount=CORTAR_EXTRUIR9_DEPTH + CORTAR_EXTRUIR9_DEPTH_BACK, mode=Mode.SUBTRACT)

    # Croquis38 → Cortar-Extruir10 (cut)
    with BuildSketch(Plane(origin=(0, 13, 0), x_dir=(1, 0, 0), z_dir=(0, 1, 0)).offset(CORTAR_EXTRUIR10_START)):
        with Locations(Location((0, 0, 0), (0, 0, 270))):
            Circle(CROQUIS38_R)
        with Locations(Location((0, 0, 0), (0, 0, 90))):
            Circle(CROQUIS38_R_2, mode=Mode.SUBTRACT)
    extrude(amount=CORTAR_EXTRUIR10_DEPTH, mode=Mode.SUBTRACT)

    # Croquis39 → Cortar-Extruir11 (cut)
    with BuildSketch(Plane.XY.offset(27.5)):
        with Locations(Location((0, -13.5, 0), (0, 0, 180))):
            Circle(CROQUIS39_R)
    extrude(amount=-CORTAR_EXTRUIR11_DEPTH, mode=Mode.SUBTRACT)

    # Croquis41 → Saliente-Extruir28 (add)
    with BuildSketch(Plane.XY.offset(-17.5)):
        with Locations(Location((0, -13.5, 0), (0, 0, 180))):
            Circle(CROQUIS41_R)
        with Locations((0, -13.5)):
            Circle(CROQUIS41_R_2, mode=Mode.SUBTRACT)
    extrude(amount=-SALIENTE_EXTRUIR28_DEPTH)

    # Croquis42 → Saliente-Extruir29 (add)
    with BuildSketch(Plane(origin=(0, 0, 17.5), x_dir=(-1, 0, 0), z_dir=(0, 0, -1)).offset(SALIENTE_EXTRUIR29_START)):
        with Locations((0, -13.5)):
            Circle(CROQUIS42_R)
        with Locations(Location((0, -13.5, 0), (0, 0, 180))):
            Circle(CROQUIS42_R_2, mode=Mode.SUBTRACT)
    extrude(amount=SALIENTE_EXTRUIR29_DEPTH)

    # Croquis43 → Saliente-Extruir30 (add)
    with BuildSketch(Plane(origin=(0, 0, 17.5), x_dir=(-1, 0, 0), z_dir=(0, 0, -1)).offset(SALIENTE_EXTRUIR30_START)):
        with Locations(Location((0, -13.5, 0), (0, 0, 180))):
            Circle(CROQUIS43_R)
        with Locations((0, -13.5)):
            Circle(CROQUIS43_R_2, mode=Mode.SUBTRACT)
    extrude(amount=SALIENTE_EXTRUIR30_DEPTH)

    # Croquis45 → Saliente-Extruir31 (add)
    with BuildSketch(Plane.XY.offset(-17.5)):
        with Locations((0, -13.5)):
            Circle(CROQUIS45_R)
        with Locations(Location((0, -13.5, 0), (0, 0, 180))):
            Circle(CROQUIS45_R_2, mode=Mode.SUBTRACT)
    extrude(amount=-SALIENTE_EXTRUIR31_DEPTH)

    # Croquis46 → Cortar-Extruir12 (cut)
    with SkipClean():  # the faces are left unmerged after this step: merging them gives an invalid solid
        with BuildSketch(Plane(origin=(0, -13, 0), x_dir=(-1, 0, 0), z_dir=(0, -1, 0))):
            with Locations((16.272651073, 0)):
                Rectangle(CROQUIS46_W, CROQUIS46_H)
            with Locations((-13.759356882, 0)):
                Rectangle(CROQUIS46_W_2, CROQUIS46_H)
        extrude(amount=CORTAR_EXTRUIR12_DEPTH, mode=Mode.SUBTRACT)

    # Croquis47 → Cortar-Extruir13 (cut)
    with SkipClean():  # the faces are left unmerged after this step: merging them gives an invalid solid
        with BuildSketch(Plane(origin=(0, 0, 17.5), x_dir=(-1, 0, 0), z_dir=(0, 0, -1))):
            with Locations((0, -13.5)):
                Circle(CROQUIS47_R)
        extrude(amount=-CORTAR_EXTRUIR13_DEPTH, mode=Mode.SUBTRACT)

    # Croquis48 → Cortar-Extruir14 (cut)
    with SkipClean():  # the faces are left unmerged after this step: merging them gives an invalid solid
        with BuildSketch(Plane.XY.offset(-17.5).offset(CORTAR_EXTRUIR14_START)):
            with Locations(Location((0, -13.5, 0), (0, 0, 180))):
                Circle(CROQUIS48_R)
        extrude(amount=CORTAR_EXTRUIR14_DEPTH, mode=Mode.SUBTRACT)


solid = part_2.part
